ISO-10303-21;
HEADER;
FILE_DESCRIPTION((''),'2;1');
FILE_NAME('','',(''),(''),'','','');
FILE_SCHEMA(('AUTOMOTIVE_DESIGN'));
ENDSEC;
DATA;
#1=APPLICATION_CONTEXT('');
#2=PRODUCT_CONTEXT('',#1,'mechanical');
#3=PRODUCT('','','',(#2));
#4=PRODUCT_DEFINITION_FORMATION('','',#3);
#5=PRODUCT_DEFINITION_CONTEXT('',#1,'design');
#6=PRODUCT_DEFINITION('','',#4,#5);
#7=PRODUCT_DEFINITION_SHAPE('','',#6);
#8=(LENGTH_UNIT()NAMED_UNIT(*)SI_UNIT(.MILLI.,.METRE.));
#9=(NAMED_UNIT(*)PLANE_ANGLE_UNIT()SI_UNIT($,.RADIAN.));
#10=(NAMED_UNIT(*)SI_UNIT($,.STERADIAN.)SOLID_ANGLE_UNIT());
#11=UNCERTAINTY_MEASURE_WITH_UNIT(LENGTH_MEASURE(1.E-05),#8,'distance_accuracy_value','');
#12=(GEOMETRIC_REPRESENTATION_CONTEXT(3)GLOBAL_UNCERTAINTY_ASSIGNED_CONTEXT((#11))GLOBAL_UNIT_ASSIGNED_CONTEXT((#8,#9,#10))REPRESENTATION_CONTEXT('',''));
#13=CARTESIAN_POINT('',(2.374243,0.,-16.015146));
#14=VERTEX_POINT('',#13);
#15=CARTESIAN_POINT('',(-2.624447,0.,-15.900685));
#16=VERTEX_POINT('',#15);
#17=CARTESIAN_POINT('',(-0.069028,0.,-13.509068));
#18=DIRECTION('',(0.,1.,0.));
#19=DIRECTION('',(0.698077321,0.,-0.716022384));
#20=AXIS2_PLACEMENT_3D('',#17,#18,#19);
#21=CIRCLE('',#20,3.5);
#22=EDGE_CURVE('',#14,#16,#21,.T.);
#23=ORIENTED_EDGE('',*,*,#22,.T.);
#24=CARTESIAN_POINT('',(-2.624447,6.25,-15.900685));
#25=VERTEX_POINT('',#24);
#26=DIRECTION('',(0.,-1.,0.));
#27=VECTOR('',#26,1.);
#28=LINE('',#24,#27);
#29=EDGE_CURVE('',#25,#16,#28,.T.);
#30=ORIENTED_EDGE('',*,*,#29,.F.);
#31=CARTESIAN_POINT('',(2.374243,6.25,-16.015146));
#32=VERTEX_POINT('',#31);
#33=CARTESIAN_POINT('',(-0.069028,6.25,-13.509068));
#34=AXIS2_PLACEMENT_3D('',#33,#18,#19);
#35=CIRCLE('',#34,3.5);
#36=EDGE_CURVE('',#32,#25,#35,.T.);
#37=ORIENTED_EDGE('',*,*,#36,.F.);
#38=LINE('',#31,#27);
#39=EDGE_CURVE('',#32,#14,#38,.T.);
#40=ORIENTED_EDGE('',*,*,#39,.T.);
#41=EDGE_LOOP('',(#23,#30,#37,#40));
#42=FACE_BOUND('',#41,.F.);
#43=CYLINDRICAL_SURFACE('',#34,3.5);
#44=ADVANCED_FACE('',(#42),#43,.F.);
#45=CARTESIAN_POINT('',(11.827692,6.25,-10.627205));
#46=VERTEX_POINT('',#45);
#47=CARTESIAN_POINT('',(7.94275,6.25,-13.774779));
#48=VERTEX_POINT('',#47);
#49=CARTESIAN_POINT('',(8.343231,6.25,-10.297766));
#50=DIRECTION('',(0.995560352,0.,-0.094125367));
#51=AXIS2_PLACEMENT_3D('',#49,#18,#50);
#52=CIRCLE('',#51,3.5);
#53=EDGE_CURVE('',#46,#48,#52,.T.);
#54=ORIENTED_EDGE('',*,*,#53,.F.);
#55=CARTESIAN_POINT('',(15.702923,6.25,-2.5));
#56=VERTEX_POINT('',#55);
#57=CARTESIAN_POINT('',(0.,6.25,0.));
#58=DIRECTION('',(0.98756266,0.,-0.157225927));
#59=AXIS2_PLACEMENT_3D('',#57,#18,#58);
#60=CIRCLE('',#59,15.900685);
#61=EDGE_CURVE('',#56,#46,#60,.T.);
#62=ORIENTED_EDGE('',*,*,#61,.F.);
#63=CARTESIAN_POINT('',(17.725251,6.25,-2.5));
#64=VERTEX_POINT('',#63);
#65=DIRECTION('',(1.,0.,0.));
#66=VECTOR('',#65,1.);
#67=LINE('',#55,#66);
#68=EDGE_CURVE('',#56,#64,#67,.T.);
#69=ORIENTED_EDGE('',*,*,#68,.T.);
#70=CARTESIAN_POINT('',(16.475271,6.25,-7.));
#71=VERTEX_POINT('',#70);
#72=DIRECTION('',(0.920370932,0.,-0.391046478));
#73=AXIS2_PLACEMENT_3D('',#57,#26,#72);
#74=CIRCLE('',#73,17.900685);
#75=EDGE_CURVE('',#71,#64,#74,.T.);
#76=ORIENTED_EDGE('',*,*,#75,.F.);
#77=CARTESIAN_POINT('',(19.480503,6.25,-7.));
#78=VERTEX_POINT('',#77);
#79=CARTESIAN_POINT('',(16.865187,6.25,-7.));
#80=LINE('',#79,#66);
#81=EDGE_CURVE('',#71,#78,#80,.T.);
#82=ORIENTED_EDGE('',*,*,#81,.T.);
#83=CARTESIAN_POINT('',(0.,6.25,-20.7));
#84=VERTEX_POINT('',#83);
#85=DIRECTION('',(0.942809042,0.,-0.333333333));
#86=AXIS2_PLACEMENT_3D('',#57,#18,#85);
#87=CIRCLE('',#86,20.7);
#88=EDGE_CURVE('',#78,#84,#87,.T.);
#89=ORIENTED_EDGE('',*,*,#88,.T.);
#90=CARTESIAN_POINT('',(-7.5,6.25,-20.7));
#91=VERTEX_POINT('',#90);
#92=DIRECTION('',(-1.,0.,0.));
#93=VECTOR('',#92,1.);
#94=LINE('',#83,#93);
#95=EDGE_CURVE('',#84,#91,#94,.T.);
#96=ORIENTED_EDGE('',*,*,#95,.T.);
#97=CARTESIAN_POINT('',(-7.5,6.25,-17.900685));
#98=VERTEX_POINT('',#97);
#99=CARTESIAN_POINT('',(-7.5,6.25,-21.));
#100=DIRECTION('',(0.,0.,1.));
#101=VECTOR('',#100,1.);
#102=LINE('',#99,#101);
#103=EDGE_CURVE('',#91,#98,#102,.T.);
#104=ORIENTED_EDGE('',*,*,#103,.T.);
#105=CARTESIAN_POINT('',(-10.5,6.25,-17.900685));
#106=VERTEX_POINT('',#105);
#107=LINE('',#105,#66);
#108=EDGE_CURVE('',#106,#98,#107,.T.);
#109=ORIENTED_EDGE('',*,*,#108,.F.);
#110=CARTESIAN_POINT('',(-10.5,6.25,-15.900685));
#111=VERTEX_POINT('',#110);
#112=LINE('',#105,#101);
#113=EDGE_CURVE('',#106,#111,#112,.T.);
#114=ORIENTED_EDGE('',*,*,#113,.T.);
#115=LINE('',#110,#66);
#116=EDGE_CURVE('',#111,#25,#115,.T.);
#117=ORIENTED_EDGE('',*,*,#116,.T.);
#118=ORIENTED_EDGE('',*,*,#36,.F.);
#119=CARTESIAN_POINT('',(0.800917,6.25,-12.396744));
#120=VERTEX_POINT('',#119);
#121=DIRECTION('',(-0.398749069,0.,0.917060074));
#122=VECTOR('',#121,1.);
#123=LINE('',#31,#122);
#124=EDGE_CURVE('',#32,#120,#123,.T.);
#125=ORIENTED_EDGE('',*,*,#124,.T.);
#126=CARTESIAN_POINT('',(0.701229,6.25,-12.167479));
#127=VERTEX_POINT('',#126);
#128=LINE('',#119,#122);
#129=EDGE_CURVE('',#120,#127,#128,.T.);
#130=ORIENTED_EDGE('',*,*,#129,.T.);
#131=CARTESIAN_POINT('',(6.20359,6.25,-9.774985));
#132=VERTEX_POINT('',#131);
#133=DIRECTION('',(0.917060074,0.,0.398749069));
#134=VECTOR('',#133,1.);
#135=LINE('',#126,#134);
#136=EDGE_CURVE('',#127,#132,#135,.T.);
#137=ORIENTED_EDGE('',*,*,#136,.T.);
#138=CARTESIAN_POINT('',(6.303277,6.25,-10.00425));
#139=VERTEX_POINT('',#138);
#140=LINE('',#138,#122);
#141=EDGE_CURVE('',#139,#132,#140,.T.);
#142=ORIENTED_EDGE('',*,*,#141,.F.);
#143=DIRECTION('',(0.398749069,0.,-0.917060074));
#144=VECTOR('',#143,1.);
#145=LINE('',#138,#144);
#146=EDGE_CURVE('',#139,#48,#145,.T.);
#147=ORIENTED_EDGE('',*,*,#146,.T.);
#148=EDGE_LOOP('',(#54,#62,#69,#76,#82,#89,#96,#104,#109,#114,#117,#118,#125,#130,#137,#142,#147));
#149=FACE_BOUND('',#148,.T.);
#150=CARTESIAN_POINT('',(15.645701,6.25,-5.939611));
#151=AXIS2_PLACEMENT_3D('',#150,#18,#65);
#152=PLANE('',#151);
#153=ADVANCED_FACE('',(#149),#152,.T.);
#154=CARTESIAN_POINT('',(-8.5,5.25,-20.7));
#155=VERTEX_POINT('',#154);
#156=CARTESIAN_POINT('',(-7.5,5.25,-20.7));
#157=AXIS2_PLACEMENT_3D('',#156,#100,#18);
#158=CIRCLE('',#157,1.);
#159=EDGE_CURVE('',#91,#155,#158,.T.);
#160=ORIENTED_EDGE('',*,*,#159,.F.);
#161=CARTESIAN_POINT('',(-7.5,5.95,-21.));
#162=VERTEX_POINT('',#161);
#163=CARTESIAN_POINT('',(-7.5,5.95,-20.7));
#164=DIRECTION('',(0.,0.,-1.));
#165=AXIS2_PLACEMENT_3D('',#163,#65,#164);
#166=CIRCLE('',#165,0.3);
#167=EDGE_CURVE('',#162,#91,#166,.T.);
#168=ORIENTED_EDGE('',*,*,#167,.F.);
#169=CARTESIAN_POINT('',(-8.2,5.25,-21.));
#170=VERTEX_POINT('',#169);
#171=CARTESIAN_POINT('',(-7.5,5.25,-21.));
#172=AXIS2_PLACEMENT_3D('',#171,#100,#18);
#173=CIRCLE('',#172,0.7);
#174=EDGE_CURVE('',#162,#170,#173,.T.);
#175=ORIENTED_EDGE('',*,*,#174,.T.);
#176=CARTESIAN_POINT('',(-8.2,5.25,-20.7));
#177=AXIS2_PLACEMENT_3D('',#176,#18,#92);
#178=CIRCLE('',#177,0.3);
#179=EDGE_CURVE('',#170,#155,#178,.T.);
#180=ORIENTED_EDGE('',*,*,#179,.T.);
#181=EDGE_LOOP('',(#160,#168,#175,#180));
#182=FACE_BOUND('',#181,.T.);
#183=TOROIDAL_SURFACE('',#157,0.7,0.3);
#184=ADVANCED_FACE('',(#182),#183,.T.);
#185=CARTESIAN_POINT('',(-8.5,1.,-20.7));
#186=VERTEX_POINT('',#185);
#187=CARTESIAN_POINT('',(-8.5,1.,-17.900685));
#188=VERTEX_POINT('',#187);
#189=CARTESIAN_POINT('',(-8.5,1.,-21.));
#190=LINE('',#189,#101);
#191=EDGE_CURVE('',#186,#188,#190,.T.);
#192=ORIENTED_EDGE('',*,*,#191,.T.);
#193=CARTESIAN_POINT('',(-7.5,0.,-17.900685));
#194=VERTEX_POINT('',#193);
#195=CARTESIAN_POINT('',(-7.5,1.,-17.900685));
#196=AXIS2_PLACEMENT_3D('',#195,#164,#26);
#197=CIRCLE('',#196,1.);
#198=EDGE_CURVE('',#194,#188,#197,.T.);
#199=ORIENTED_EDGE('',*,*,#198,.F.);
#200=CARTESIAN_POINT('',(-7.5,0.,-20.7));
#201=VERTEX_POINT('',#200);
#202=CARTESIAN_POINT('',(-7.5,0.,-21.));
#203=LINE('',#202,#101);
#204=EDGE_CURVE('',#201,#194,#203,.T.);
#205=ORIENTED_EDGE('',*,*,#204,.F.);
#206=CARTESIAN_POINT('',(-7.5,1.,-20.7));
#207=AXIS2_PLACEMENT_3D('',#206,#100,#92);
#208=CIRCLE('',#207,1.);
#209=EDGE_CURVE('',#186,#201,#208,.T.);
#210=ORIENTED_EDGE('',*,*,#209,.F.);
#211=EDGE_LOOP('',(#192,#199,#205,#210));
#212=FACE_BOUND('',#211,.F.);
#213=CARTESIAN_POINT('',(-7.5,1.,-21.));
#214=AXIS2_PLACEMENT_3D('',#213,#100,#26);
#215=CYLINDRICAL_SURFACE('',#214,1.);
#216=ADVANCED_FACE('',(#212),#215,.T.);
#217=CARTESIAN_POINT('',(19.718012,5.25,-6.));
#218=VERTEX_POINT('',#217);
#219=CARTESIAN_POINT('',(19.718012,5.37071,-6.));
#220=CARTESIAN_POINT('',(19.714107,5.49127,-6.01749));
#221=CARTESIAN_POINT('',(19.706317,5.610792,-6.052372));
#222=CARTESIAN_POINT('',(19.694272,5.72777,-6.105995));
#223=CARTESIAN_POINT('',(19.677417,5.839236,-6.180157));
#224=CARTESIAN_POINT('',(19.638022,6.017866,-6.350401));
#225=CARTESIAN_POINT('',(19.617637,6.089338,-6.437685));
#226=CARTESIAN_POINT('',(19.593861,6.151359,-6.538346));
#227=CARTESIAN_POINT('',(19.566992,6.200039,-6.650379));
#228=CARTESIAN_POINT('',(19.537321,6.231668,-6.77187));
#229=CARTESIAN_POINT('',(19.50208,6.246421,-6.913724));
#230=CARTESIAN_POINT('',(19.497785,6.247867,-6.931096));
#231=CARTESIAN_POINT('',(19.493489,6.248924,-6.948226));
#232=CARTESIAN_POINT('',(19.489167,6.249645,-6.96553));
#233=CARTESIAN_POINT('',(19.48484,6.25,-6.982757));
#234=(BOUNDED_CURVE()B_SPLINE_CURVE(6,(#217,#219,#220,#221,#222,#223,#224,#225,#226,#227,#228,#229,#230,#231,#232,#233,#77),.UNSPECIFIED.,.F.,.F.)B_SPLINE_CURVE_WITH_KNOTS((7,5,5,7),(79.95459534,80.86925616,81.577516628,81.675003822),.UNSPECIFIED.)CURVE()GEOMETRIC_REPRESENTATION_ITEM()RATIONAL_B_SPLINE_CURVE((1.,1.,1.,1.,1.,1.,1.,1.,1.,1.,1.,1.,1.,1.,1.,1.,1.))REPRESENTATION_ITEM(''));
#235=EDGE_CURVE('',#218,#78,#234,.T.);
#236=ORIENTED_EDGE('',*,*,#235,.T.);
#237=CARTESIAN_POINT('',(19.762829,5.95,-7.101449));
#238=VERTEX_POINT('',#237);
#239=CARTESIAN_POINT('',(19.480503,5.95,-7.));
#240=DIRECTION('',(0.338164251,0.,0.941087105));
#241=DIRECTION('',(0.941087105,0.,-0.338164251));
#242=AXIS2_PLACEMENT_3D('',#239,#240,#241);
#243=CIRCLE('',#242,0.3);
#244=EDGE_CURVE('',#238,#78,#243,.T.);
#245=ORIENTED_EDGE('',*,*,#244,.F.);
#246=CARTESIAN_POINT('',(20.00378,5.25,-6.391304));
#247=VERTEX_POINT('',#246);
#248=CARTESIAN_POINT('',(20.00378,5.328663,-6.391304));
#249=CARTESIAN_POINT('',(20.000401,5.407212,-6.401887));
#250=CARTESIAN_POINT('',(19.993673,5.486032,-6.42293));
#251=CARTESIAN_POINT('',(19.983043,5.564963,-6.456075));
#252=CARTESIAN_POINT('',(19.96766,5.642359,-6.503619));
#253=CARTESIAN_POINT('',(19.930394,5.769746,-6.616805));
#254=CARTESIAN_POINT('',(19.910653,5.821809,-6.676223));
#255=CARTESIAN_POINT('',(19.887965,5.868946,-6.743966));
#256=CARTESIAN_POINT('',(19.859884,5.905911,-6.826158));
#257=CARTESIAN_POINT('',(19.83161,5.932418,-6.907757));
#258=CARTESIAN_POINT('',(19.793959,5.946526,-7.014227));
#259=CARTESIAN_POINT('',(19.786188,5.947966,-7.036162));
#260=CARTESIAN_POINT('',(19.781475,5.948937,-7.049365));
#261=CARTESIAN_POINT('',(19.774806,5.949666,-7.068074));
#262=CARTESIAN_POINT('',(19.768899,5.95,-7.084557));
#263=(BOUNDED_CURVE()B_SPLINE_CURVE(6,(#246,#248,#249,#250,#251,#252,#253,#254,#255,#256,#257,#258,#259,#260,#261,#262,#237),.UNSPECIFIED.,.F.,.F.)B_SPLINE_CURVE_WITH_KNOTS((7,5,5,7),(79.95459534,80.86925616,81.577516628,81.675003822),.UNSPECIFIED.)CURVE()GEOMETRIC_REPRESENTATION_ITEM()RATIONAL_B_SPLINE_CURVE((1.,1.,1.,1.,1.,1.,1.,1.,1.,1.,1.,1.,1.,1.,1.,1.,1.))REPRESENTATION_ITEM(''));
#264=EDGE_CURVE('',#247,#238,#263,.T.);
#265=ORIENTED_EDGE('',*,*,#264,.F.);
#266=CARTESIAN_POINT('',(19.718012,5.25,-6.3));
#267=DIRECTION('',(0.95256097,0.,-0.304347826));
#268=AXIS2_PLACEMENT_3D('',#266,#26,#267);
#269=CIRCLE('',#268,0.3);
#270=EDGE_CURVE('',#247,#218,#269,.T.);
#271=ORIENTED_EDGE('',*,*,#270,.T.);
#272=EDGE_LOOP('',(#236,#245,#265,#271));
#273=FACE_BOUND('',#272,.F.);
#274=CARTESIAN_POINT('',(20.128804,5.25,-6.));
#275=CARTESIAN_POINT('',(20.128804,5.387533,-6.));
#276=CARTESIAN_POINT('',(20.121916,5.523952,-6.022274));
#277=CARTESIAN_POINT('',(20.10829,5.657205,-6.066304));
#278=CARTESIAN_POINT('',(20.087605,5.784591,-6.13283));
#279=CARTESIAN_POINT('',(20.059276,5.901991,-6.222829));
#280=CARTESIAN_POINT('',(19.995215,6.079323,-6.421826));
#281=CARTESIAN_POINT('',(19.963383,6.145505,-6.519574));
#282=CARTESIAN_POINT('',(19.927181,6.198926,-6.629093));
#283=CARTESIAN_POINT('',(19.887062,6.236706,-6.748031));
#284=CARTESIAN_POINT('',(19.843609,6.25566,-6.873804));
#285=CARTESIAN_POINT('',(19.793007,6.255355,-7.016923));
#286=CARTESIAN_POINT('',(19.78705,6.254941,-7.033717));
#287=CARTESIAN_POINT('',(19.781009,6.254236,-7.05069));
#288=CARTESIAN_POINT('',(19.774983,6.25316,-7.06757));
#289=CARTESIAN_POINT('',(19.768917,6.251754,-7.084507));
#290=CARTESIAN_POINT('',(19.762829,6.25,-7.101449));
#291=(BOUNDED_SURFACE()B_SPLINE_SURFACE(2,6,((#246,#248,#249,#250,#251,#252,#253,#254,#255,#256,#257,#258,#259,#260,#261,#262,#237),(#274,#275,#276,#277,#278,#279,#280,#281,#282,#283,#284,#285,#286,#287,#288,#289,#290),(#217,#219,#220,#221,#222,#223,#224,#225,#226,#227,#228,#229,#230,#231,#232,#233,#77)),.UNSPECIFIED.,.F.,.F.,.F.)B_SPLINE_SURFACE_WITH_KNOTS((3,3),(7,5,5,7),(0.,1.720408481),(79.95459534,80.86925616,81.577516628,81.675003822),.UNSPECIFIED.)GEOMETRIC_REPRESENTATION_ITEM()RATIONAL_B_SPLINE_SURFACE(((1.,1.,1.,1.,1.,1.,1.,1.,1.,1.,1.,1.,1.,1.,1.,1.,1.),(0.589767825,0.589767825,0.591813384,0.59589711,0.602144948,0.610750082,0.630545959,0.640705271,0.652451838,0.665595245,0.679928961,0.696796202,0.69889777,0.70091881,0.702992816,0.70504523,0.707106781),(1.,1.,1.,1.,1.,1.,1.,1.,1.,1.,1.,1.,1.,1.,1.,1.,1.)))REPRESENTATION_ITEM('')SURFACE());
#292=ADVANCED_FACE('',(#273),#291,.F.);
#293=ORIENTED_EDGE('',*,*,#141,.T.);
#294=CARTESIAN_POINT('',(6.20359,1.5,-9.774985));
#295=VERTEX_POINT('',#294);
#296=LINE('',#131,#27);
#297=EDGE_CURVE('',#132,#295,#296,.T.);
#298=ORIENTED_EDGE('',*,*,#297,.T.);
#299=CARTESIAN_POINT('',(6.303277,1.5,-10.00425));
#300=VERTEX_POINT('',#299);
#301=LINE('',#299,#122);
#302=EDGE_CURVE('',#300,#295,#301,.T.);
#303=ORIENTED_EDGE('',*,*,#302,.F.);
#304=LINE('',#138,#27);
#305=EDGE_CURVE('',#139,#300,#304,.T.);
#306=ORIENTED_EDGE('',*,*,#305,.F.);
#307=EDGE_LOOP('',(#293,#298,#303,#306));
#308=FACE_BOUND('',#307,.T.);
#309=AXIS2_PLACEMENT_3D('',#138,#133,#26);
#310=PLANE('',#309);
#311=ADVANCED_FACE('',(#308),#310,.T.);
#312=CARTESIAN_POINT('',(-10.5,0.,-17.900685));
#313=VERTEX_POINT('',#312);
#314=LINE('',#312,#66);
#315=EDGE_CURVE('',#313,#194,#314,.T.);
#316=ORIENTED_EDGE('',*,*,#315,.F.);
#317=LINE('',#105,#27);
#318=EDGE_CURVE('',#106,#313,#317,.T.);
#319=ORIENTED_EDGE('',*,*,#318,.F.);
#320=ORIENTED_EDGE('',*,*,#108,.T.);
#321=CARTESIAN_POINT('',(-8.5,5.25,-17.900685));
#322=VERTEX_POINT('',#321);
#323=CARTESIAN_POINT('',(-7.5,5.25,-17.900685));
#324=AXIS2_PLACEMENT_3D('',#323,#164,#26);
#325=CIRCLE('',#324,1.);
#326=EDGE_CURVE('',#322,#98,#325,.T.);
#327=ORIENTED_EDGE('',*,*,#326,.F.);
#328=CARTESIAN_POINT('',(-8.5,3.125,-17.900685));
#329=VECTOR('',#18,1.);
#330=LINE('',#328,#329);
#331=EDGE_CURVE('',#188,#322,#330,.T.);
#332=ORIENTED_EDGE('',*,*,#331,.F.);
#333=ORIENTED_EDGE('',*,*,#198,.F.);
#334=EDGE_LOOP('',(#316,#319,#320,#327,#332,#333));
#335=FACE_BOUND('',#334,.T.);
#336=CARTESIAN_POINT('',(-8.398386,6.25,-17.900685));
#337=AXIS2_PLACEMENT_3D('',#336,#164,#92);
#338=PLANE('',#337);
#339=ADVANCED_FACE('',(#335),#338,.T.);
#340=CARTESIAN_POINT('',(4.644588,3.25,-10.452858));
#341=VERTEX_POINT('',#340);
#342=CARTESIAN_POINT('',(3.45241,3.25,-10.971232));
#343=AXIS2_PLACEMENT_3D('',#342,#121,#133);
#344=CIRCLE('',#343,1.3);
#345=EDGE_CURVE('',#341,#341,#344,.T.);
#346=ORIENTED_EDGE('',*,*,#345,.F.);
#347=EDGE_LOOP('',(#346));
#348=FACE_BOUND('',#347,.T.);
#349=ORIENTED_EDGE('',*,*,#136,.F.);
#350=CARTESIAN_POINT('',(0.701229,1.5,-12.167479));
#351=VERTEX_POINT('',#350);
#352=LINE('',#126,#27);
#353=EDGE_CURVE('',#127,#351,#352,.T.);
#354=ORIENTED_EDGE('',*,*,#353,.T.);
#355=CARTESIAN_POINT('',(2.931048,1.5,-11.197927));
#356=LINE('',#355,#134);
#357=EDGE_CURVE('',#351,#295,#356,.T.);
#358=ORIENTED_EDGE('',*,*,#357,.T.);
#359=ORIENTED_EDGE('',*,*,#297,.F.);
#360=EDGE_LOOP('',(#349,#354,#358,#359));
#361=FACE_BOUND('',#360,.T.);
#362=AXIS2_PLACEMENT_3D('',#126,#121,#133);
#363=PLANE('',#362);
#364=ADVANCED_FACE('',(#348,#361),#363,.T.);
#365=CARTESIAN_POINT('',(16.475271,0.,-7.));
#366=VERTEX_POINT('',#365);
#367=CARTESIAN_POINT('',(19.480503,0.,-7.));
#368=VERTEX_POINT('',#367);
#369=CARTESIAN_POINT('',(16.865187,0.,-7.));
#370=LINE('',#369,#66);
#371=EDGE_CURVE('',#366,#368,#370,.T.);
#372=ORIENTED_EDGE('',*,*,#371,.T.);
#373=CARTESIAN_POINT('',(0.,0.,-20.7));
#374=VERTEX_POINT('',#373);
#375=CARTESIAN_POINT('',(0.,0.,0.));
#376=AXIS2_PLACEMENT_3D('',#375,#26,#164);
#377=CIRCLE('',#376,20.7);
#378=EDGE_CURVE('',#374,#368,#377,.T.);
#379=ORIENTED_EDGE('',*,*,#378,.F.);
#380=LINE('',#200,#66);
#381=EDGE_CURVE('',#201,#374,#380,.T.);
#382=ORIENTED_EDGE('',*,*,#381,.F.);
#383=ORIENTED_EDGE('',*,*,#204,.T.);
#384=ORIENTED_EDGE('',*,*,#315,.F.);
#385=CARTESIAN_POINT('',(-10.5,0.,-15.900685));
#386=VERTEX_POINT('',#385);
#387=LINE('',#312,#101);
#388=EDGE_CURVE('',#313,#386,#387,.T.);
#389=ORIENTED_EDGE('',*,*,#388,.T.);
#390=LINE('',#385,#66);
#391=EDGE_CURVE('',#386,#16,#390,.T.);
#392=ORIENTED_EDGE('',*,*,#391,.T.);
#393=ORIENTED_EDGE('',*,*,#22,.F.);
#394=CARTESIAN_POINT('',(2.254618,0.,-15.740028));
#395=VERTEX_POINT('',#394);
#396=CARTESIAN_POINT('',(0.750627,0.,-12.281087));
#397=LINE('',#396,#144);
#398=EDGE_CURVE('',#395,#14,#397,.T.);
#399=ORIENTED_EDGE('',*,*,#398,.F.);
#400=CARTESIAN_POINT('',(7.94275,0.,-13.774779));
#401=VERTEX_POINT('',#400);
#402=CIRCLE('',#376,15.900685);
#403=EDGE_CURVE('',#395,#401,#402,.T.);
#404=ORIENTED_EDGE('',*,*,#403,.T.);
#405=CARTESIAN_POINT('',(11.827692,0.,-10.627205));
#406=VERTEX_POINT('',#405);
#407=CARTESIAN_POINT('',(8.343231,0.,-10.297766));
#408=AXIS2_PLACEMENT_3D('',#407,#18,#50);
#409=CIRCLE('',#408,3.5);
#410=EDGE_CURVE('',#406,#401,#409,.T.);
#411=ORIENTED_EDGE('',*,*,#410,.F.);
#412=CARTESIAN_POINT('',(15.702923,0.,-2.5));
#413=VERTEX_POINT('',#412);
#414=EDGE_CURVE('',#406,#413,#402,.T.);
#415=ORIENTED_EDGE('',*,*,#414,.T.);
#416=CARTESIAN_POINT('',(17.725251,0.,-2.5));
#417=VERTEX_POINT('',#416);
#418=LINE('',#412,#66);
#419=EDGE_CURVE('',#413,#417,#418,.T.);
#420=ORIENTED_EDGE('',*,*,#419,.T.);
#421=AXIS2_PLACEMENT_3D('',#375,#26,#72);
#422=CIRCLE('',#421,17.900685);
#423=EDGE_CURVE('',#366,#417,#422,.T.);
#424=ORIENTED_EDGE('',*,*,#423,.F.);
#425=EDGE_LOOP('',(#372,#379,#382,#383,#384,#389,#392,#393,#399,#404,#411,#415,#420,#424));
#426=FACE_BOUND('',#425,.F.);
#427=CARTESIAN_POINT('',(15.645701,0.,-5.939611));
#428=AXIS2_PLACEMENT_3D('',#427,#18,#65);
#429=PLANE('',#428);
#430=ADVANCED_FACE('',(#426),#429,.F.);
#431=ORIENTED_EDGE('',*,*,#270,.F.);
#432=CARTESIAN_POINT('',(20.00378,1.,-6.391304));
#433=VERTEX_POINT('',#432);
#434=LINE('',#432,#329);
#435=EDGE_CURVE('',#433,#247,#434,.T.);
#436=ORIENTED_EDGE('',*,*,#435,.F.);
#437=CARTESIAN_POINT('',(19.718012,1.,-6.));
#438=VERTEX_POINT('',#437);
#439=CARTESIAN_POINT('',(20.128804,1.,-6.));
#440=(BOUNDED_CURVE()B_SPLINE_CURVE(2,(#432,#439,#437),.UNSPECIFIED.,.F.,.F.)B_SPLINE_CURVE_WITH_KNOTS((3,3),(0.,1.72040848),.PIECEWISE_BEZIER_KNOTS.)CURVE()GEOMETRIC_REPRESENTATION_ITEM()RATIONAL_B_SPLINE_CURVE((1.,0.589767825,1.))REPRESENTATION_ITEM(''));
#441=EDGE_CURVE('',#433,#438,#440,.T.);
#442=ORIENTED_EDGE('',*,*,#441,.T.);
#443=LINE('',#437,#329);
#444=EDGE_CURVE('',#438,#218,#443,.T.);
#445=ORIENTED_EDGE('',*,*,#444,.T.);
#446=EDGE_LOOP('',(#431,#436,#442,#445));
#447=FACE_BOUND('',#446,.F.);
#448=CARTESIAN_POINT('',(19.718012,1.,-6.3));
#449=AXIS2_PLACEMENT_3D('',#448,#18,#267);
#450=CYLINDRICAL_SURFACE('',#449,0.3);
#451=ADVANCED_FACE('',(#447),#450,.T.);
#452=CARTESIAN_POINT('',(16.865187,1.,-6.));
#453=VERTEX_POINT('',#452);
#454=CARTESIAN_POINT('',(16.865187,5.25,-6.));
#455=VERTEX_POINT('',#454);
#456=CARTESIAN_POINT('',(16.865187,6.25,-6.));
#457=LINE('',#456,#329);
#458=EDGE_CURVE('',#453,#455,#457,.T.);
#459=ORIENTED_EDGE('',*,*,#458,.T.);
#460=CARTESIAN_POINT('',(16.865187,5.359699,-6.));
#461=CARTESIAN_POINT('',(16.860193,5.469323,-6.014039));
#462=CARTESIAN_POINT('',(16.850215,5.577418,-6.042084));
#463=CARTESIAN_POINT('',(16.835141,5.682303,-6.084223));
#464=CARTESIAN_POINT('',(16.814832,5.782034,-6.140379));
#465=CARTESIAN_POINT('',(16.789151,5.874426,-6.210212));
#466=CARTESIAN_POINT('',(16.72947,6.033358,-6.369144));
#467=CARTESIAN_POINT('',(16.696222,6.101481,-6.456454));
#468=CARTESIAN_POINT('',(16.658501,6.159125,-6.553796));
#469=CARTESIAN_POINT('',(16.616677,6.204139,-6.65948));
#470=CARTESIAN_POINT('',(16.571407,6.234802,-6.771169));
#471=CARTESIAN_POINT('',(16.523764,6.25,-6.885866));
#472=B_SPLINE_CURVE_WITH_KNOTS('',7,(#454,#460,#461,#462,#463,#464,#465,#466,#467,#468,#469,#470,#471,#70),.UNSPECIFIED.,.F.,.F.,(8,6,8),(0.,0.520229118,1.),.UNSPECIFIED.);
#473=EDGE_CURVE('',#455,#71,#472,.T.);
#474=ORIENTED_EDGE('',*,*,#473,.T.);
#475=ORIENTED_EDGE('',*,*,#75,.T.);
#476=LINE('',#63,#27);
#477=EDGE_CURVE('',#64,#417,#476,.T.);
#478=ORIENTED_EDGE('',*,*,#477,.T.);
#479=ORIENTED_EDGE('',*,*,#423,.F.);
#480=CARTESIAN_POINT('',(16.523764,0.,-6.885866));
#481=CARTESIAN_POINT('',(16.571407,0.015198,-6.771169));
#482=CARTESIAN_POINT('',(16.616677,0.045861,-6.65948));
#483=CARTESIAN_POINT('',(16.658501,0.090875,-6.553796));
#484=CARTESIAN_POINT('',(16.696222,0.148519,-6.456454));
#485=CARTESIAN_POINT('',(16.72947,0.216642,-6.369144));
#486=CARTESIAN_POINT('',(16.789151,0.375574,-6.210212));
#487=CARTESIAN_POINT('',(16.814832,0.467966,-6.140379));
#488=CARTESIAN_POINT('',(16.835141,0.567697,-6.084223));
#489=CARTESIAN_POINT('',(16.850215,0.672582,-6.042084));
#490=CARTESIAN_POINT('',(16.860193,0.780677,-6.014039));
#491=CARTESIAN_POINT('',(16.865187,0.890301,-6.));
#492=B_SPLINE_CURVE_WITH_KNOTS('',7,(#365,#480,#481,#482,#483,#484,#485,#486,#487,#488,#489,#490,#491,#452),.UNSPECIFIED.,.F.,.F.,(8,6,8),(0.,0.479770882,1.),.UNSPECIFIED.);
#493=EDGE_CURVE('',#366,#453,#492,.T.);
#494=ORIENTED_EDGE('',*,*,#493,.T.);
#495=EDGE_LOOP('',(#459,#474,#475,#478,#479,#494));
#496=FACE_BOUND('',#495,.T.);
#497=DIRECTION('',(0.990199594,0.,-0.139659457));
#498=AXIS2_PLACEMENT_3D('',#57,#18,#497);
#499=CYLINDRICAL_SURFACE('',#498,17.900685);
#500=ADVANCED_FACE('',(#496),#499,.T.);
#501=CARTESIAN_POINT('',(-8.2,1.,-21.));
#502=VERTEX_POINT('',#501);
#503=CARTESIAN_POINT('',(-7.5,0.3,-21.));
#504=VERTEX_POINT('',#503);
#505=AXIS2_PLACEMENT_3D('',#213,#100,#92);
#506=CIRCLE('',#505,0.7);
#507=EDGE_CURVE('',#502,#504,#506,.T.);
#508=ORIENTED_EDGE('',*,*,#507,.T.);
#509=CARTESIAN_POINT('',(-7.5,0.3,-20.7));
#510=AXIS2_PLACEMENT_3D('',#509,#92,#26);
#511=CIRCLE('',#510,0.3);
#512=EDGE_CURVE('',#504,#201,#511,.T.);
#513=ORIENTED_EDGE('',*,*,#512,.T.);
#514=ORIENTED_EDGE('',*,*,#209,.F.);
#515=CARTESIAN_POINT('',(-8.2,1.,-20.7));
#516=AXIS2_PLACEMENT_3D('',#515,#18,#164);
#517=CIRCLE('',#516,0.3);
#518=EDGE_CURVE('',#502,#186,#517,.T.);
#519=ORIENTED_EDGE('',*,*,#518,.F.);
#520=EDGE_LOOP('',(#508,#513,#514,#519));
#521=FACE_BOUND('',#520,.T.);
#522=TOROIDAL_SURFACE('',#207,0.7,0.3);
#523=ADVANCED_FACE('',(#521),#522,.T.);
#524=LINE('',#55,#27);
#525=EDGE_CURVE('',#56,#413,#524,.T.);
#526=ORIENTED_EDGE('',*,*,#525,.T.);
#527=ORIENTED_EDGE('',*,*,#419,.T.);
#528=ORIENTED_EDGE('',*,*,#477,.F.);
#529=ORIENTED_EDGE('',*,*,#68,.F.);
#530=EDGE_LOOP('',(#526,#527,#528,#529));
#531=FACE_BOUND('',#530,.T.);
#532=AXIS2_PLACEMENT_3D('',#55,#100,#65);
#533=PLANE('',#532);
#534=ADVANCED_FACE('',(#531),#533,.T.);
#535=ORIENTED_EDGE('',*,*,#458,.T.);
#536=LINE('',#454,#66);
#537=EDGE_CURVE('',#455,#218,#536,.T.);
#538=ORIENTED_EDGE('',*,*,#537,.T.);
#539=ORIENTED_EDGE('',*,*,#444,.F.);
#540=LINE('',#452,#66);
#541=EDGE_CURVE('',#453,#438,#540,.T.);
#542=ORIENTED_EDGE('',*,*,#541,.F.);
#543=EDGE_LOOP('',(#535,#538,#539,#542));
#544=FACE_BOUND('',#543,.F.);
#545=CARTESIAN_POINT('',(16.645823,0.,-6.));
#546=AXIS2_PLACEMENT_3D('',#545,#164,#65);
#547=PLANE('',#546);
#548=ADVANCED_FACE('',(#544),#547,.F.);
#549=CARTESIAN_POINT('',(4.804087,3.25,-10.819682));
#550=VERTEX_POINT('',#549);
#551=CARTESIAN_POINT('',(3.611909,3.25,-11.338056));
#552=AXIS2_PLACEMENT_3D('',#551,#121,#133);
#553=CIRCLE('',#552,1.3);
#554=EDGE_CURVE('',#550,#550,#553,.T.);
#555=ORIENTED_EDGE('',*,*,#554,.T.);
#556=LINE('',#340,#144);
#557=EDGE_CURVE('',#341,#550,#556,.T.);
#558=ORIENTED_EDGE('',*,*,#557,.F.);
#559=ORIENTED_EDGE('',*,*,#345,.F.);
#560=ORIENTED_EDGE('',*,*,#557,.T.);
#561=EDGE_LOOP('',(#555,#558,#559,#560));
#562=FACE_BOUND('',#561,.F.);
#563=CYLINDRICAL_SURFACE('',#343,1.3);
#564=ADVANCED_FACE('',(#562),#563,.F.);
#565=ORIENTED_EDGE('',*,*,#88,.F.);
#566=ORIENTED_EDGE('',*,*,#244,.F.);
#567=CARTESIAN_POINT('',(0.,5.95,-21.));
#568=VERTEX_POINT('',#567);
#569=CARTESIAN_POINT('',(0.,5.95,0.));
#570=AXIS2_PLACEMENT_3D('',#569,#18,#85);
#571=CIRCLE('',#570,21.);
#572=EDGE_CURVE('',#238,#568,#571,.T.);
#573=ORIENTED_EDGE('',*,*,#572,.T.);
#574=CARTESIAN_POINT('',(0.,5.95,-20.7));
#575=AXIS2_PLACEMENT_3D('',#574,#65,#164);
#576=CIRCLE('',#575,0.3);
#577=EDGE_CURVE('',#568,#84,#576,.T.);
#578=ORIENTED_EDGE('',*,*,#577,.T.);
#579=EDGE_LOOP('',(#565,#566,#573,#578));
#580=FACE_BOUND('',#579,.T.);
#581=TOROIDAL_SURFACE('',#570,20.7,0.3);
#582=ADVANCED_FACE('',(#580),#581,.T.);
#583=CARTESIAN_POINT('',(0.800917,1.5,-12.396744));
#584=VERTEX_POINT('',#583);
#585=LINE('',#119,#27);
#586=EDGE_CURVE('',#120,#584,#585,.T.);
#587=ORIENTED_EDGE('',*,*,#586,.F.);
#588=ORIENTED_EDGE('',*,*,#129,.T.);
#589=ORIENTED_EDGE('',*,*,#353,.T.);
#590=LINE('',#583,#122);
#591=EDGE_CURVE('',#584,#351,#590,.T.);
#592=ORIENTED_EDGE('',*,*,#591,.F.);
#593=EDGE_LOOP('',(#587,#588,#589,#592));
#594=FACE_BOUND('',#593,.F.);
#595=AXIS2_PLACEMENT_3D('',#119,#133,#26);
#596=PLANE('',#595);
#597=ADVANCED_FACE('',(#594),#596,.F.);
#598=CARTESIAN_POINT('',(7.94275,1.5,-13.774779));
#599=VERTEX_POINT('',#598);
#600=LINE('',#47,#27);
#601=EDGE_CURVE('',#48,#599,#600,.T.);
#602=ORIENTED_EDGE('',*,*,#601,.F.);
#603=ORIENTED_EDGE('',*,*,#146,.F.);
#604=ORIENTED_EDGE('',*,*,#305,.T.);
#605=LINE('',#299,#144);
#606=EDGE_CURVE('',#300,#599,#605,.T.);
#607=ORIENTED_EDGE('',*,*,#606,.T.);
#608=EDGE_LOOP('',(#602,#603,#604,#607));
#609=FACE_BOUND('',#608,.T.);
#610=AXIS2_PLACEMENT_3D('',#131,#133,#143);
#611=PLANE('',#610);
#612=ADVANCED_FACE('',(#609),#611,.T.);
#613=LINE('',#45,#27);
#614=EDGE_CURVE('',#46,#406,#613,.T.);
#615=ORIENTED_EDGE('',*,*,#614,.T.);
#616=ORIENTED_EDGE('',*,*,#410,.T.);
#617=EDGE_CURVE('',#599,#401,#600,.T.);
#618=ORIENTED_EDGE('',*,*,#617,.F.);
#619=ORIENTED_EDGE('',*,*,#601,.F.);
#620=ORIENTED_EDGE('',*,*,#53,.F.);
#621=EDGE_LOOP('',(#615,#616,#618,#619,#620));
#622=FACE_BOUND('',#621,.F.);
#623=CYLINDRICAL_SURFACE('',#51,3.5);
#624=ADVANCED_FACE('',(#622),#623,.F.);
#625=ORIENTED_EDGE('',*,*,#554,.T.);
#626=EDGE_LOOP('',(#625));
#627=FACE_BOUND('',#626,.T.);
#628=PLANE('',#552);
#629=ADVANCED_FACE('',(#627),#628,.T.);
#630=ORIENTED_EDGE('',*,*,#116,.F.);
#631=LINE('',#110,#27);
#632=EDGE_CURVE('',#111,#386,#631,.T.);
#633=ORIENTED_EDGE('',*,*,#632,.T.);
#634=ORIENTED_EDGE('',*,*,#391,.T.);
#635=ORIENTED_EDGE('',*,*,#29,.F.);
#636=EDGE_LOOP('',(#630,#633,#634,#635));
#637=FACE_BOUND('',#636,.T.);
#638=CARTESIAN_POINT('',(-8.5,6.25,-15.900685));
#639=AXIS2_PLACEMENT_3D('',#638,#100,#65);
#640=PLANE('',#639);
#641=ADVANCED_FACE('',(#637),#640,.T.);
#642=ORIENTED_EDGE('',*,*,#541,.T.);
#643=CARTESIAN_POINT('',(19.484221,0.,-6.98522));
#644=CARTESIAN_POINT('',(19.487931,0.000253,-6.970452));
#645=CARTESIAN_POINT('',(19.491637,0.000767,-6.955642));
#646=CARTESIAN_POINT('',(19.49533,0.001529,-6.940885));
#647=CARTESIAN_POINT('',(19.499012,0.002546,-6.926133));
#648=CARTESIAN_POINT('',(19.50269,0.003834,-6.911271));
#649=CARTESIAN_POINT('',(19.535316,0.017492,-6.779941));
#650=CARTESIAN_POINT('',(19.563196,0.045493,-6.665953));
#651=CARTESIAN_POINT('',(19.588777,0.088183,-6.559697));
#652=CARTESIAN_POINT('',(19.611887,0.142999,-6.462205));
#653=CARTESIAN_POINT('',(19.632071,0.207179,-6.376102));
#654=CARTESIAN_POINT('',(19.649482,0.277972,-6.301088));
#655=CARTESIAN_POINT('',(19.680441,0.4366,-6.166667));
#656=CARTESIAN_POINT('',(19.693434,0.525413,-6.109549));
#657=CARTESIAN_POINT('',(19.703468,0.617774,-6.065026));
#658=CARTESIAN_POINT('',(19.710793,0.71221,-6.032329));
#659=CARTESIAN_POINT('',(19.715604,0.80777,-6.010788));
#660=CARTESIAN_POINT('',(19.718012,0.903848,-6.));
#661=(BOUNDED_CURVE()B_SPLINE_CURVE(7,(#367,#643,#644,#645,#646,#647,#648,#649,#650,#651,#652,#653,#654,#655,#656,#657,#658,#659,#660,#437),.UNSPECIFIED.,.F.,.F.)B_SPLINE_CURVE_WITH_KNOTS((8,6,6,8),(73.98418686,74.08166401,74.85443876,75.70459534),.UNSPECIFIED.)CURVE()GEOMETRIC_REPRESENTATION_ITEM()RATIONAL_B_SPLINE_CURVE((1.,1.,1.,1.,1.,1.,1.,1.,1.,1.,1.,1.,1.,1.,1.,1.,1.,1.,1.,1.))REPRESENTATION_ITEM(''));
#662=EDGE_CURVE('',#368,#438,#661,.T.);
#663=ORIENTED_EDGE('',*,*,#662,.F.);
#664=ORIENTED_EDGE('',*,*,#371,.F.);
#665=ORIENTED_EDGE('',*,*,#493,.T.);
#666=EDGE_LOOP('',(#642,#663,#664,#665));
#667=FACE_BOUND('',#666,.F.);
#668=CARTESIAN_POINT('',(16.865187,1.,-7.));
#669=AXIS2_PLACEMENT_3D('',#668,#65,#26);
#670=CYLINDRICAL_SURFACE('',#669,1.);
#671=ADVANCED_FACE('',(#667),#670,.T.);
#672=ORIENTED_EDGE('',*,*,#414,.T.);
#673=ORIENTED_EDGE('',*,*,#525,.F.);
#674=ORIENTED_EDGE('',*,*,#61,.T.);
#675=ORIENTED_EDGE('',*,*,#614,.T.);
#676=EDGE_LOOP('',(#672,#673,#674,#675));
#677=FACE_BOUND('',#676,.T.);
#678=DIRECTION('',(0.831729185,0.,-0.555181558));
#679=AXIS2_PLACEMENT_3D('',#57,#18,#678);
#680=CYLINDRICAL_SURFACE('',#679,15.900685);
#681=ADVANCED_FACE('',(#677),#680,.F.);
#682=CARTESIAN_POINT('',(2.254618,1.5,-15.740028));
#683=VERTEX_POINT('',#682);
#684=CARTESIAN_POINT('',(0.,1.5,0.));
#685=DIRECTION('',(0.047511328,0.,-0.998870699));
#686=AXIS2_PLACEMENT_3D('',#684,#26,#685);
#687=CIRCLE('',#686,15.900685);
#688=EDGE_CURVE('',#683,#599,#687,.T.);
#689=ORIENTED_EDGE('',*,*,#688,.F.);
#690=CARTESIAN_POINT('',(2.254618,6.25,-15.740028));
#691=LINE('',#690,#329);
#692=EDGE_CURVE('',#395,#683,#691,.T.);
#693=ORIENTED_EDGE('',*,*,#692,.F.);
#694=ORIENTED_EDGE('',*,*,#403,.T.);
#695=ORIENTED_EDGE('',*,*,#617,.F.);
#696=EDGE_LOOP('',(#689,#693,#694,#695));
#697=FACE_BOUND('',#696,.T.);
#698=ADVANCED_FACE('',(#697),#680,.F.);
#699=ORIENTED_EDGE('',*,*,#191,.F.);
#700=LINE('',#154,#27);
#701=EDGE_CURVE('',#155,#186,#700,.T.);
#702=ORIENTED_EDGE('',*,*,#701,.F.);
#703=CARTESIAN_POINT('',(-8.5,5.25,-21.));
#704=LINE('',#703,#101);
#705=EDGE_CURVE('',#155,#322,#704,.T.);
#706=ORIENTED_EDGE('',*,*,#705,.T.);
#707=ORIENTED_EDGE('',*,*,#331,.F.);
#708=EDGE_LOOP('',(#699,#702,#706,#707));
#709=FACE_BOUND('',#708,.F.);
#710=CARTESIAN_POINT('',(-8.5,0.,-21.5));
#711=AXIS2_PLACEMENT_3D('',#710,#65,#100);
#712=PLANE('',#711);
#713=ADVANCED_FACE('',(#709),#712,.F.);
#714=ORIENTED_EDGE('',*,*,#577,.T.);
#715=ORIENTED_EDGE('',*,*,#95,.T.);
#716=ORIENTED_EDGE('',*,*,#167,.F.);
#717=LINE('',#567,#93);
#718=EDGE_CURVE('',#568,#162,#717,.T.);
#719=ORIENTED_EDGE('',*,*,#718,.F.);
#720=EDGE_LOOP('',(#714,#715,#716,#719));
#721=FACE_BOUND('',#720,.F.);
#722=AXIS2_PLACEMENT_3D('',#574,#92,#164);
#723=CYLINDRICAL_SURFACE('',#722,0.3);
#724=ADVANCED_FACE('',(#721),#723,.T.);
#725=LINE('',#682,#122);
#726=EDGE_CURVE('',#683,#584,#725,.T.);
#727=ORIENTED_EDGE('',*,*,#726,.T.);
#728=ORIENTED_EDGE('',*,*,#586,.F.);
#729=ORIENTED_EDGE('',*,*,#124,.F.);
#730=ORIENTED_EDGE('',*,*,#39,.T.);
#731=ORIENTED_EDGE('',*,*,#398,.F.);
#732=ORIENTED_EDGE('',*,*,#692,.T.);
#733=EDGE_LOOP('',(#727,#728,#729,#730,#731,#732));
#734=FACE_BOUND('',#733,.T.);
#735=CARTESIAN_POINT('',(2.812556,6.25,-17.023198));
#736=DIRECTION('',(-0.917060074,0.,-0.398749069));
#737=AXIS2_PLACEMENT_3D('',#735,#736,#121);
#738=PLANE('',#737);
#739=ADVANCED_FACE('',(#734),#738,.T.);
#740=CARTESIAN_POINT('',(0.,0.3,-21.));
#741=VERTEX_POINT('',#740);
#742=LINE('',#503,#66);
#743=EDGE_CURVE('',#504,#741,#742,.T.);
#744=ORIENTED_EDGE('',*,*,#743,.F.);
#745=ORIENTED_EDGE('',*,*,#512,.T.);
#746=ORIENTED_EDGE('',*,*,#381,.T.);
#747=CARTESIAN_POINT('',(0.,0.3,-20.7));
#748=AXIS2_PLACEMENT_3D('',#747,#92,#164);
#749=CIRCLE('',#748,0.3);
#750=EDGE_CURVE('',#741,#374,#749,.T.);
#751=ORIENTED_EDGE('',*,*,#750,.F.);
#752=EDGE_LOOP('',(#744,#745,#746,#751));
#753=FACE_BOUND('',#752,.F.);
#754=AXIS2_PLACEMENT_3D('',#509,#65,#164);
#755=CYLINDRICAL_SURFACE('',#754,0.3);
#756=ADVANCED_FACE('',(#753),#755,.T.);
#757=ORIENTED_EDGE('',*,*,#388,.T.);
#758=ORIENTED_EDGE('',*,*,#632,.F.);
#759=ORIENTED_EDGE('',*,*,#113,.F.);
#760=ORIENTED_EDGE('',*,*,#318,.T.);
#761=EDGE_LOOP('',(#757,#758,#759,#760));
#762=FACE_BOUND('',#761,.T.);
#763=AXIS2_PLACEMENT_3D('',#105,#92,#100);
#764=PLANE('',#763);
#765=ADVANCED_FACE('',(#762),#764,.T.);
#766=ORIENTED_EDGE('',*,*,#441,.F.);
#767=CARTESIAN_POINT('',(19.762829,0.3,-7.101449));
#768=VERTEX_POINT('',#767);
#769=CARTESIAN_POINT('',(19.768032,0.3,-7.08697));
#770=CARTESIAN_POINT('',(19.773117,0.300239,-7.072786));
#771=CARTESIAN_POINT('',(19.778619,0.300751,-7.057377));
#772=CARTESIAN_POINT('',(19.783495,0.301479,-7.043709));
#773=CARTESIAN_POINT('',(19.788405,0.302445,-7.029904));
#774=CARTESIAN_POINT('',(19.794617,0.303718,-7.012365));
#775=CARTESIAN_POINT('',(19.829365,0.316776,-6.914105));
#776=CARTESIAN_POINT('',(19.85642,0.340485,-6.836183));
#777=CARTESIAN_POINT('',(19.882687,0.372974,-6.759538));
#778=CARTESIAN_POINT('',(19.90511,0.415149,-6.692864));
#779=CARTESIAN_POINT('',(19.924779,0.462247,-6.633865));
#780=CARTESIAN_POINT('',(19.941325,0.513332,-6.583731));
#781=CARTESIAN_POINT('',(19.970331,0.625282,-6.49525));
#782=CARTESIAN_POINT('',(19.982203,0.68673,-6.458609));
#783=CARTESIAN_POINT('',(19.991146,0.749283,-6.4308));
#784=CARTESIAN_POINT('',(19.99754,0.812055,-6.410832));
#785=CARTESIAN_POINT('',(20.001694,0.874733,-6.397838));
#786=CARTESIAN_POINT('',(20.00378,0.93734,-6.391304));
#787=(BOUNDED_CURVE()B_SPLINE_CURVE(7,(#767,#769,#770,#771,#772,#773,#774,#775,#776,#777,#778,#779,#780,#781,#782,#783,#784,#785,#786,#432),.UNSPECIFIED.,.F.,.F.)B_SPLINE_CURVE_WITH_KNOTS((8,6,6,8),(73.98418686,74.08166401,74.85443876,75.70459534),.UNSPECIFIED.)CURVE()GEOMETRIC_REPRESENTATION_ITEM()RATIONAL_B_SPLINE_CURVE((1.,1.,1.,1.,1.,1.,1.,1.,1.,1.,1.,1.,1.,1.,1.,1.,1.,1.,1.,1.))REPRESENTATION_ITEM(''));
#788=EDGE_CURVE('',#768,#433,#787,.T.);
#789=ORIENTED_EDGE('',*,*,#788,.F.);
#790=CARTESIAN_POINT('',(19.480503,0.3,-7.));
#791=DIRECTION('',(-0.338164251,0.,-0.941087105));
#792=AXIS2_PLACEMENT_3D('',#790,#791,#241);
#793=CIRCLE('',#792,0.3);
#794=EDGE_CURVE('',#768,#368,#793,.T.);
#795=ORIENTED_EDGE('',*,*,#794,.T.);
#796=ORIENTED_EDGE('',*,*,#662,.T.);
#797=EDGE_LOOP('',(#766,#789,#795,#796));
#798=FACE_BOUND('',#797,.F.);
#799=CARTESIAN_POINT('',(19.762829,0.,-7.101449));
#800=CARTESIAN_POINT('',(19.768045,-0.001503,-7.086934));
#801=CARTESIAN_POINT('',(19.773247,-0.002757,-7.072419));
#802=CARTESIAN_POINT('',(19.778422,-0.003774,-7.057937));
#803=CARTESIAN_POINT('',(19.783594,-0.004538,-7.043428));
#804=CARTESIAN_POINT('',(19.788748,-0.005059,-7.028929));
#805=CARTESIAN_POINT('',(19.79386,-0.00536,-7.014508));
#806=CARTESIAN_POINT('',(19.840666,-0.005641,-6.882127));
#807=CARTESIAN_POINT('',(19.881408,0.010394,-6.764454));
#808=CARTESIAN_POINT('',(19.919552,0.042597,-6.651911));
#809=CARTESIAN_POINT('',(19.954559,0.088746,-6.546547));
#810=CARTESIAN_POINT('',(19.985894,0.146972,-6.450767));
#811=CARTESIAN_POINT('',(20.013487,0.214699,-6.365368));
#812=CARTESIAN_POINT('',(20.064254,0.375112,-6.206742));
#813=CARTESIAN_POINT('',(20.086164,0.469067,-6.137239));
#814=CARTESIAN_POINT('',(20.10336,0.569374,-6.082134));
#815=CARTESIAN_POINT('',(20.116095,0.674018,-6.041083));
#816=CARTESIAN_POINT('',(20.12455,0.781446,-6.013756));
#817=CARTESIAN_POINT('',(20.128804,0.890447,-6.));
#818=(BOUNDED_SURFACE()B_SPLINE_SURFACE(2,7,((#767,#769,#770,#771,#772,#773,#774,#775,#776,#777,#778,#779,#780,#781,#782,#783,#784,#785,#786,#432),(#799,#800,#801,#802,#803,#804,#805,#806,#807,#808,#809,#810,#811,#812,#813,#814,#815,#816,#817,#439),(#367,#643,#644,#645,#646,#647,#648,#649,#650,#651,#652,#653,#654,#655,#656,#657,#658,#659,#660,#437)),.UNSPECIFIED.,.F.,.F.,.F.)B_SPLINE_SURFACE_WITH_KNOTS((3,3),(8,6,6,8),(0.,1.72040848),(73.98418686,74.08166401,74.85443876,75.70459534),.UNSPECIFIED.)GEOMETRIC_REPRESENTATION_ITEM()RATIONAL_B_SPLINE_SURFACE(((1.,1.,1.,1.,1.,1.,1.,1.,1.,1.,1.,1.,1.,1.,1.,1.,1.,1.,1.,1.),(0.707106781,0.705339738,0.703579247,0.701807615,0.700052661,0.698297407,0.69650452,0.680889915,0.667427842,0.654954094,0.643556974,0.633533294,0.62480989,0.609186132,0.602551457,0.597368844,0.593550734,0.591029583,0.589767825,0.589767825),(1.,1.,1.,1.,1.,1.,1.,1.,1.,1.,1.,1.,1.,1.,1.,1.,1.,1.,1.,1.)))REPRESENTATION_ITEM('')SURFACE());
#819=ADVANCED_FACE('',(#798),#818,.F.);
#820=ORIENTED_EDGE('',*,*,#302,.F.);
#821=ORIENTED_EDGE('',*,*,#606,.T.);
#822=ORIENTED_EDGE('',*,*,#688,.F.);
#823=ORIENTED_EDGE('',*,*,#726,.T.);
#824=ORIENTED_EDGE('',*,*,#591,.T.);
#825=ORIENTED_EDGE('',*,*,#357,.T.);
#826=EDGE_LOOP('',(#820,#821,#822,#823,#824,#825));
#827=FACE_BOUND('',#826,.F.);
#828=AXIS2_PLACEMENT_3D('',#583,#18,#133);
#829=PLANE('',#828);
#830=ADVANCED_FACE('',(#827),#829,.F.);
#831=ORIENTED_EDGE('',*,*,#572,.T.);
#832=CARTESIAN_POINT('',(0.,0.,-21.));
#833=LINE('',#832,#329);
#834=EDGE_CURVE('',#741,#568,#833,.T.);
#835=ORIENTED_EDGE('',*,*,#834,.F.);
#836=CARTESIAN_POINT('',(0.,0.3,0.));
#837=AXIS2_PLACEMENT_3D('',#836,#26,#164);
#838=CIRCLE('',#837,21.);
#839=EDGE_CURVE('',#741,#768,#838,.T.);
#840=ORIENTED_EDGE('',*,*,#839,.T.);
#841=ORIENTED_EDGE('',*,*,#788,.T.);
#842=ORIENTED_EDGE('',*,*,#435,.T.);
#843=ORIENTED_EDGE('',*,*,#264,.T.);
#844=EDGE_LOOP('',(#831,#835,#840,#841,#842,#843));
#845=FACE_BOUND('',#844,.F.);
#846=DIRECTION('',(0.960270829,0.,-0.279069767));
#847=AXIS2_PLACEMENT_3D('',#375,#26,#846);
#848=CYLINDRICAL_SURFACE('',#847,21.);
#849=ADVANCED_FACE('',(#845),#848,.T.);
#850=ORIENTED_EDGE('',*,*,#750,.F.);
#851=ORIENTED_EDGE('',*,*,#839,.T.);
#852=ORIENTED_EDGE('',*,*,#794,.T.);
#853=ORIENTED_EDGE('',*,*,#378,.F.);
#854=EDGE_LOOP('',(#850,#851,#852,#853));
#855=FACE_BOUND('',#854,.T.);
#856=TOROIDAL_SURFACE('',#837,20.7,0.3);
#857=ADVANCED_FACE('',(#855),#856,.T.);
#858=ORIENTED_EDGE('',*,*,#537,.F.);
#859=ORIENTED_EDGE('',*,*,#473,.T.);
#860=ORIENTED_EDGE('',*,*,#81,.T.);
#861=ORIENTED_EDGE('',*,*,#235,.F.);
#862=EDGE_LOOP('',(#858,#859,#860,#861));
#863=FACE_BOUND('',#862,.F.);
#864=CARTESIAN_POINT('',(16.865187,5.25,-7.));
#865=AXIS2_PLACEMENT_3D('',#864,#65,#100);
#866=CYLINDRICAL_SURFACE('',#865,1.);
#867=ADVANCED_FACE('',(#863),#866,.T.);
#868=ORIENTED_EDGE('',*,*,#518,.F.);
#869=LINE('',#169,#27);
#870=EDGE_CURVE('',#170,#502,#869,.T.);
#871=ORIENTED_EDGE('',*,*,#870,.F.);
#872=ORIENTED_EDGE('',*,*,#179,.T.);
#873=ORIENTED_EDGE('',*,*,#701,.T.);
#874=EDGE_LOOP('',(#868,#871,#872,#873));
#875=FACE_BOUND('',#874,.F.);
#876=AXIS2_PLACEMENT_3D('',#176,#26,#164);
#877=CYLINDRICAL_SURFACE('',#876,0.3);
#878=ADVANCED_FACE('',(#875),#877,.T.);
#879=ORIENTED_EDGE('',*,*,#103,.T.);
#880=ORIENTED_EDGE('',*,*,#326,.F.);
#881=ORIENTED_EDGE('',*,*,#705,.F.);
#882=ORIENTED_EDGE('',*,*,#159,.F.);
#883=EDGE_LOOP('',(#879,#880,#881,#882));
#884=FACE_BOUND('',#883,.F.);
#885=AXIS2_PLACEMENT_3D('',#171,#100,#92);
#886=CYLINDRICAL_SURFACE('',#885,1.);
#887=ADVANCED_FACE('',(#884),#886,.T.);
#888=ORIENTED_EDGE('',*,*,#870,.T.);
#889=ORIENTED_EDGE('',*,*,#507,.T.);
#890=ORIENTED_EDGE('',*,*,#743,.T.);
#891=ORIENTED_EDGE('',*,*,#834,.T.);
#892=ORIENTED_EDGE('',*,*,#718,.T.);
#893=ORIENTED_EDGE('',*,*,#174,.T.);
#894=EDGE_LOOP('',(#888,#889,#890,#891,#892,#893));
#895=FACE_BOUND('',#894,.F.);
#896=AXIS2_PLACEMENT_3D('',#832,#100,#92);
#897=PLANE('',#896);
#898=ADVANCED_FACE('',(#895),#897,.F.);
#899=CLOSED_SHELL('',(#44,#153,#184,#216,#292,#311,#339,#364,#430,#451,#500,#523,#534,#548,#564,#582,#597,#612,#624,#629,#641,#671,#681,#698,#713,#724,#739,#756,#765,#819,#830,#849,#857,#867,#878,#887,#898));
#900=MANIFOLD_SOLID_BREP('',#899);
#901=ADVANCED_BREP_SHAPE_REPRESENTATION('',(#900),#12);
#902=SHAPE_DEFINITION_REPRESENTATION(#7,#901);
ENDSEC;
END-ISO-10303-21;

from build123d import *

# Parameters (mm, degrees)
BOSS_EXTRUDE1_DEPTH = 6.25
CUT_EXTRUDE1_DEPTH  = 10
BOSS_EXTRUDE2_DEPTH = 6.25
CUT_EXTRUDE2_START  = -1.5
CUT_EXTRUDE2_DEPTH  = 1.5
MOVE_FACE1_BY       = 0.25
SKETCH5_R           = 1.3
CUT_EXTRUDE3_DEPTH  = 0.4
BOSS_EXTRUDE3_DEPTH = 6.25
MOVE_FACE2_BY       = 0.5
MOVE_FACE2_2_BY     = 0.5
CUT_EXTRUDE4_DEPTH  = 13
CUT_EXTRUDE5_START  = -1.5
CUT_EXTRUDE5_DEPTH  = 1.5
BOSS_EXTRUDE4_DEPTH = 6.25
CUT_EXTRUDE6_DEPTH  = 9.000000000000002
FILLET1_R           = 1
FILLET2_R           = 0.3


with BuildPart() as part:
    # Sketch1 → Boss-Extrude1 (new body)
    with BuildSketch(Plane(origin=(0, 0, 0), x_dir=(1, 0, 0), z_dir=(0, 1, 0))):
        with BuildLine():
            Line((-8.500000000000007, 21.49999999999999), (-8.500000000000007, 15.499999999999982))
            Line((-8.500000000000007, 15.499999999999982), (16.645822822062563, 5.999999999999995))
            Line((16.645822822062563, 5.999999999999995), (20.645822822062566, 5.999999999999995))
            ThreePointArc((20.645822822062566, 5.999999999999995), (12.90833064342558, 17.19374886404939), (0, 21.49999999999999))
            Line((0, 21.49999999999999), (-8.500000000000007, 21.49999999999999))
        make_face()
    extrude(amount=BOSS_EXTRUDE1_DEPTH)

    # Sketch2 → Cut-Extrude1 (cut)
    with BuildSketch(Plane(origin=(0, 6.25, 0), x_dir=(1, 0, 0), z_dir=(0, 1, 0))):
        with BuildLine():
            Line((-9.752670250943163, 2.7674418604651105), (-9.752670250943163, 14.499999999999986))
            Line((-9.752670250943163, 14.499999999999986), (8.3e-16, 14.499999999999986))
            ThreePointArc((8.3e-16, 14.499999999999986), (9.22285457500159, 11.188786953390961), (14.233455854041384, 2.7674418604651105))
            Line((14.233455854041384, 2.7674418604651105), (-9.752670250943163, 2.7674418604651105))
        make_face()
    extrude(amount=-CUT_EXTRUDE1_DEPTH, mode=Mode.SUBTRACT)

    # Sketch3 → Boss-Extrude2 (add)
    with BuildSketch(Plane(origin=(0, 6.25, 0), x_dir=(1, 0, 0), z_dir=(0, 1, 0))):
        Polygon((4.469156931645221, 10.801748174518188), (6.3032770804154685, 10.004250036667695), (8.404211615552752, 14.836068669534448), (2.8125557708062745, 17.02319772649103), (0.8009166341047183, 12.396744450219176), (2.6350367828749666, 11.599246312368683), align=None)
    extrude(amount=-BOSS_EXTRUDE2_DEPTH)

    # Sketch4 → Cut-Extrude2 (cut)
    with BuildSketch(Plane.XZ.offset(CUT_EXTRUDE2_START)):
        with BuildLine():
            Line((12.329816757236909, -7.63057132415126), (4.858273185949837, -3.0066464723283906))
            Line((4.858273185949837, -3.0066464723283906), (-2.1755255087838874, -6.757515163827213))
            Line((-2.1755255087838874, -6.757515163827213), (0.39188162426461154, -14.49470347377149))
            ThreePointArc((0.39188162426461154, -14.49470347377149), (7.227688425031692, -12.570223547362334), (12.329816757236909, -7.63057132415126))
        make_face()
    extrude(amount=CUT_EXTRUDE2_DEPTH, mode=Mode.SUBTRACT)

    # Move Face1: a face moved outward by 0.25
    extrude(part.faces().sort_by_distance((3.552096857, 3.875, -11.200497243))[0], amount=MOVE_FACE1_BY, dir=(-0.398749069, 0, 0.917060074))

    # Sketch5 → Cut-Extrude3 (cut)
    with BuildSketch(Plane(origin=(4.560861605165302, 0, -10.489263571615414), x_dir=(0.917060074385124, 0, 0.3987490689252462), z_dir=(-0.3987490689252462, 0, 0.917060074385124))):
        with Locations((-1.20870163918075, 3.2500000000000084)):
            Circle(SKETCH5_R)
    extrude(amount=-CUT_EXTRUDE3_DEPTH, mode=Mode.SUBTRACT)

    # Sketch6 → Boss-Extrude3 (add)
    with BuildSketch(Plane(origin=(0, 6.25, 0), x_dir=(1, 0, 0), z_dir=(0, 1, 0))):
        Polygon((-8.500000000000007, 15.900685410943252), (-8.398385997633637, 15.900685410943252), (-8.398385997633637, 17.900685410943254), (-8.500000000000007, 17.900685410943254), (-10.500000000000009, 17.900685410943254), (-10.500000000000009, 15.900685410943252), align=None)
    extrude(amount=-BOSS_EXTRUDE3_DEPTH)

    # Move Face2: a face moved inward by 0.5
    extrude(part.faces().sort_by_distance((-4.25, 3.125, -21.5))[0], amount=MOVE_FACE2_BY, dir=(0, 0, 1), mode=Mode.SUBTRACT)

    # Move Face2 2: a curved face moved inward by 0.5
    add(Solid.thicken(part.faces().sort_by_distance((12.908330643, 3.125, -17.193748864))[0], -MOVE_FACE2_2_BY), mode=Mode.SUBTRACT)

    # Sketch7 → Cut-Extrude4 (cut)
    with BuildSketch(Plane(origin=(0, 6.25, 0), x_dir=(1, 0, 0), z_dir=(0, 1, 0))):
        with BuildLine():
            Line((-8.500000000000007, 15.900685410943252), (0, 15.900685410943252))
            ThreePointArc((0, 15.900685410943252), (1.1301672935759872, 15.860470309114884), (2.2546178785171396, 15.740028423089157))
            Line((2.2546178785171396, 15.740028423089157), (1.4365096738849472, 13.858508365832973))
            Line((1.4365096738849472, 13.858508365832973), (0.7012293668734065, 12.167479431622894))
            Line((0.7012293668734065, 12.167479431622894), (6.203589813184157, 9.774985018071414))
            Line((6.203589813184157, 9.774985018071414), (7.238188726101288, 12.15439961732261))
            Line((7.238188726101288, 12.15439961732261), (7.94274956604829, 13.774778614149243))
            ThreePointArc((7.94274956604829, 13.774778614149243), (13.653169200208351, 8.150016400490594), (15.89419526397822, 0.45426143168428607))
            Line((15.89419526397822, 0.45426143168428607), (-20.808588691152597, -0.594716444159659))
            Line((-20.808588691152597, -0.594716444159659), (-15.374732718008488, 14.86339738490728))
            Line((-15.374732718008488, 14.86339738490728), (-8.500000000000007, 15.900685410943252))
        make_face()
    extrude(amount=-CUT_EXTRUDE4_DEPTH, mode=Mode.SUBTRACT)

    # Sketch8 → Cut-Extrude5 (cut)
    with BuildSketch(Plane.XZ.offset(CUT_EXTRUDE5_START)):
        with BuildLine():
            Line((14.339308110473954, -6.871392831928589), (1.9043764034639075, -3.0604478341676384))
            Line((1.9043764034639075, -3.0604478341676384), (-4.2629376925202305, -10.324173324993405))
            Line((-4.2629376925202305, -10.324173324993405), (0.7554626751993575, -15.882728754347104))
            ThreePointArc((0.7554626751993575, -15.882728754347104), (8.789998296056245, -13.250197224687337), (14.339308110473954, -6.871392831928589))
        make_face()
    extrude(amount=CUT_EXTRUDE5_DEPTH, mode=Mode.SUBTRACT)

    # Sketch9 → Boss-Extrude4 (add)
    with BuildSketch(Plane(origin=(0, 6.25, 0), x_dir=(1, 0, 0), z_dir=(0, 1, 0))):
        with BuildLine():
            Line((15.70292318448331, 2.500000000000002), (17.725251454235494, 2.500000000000002))
            ThreePointArc((17.725251454235494, 2.500000000000002), (16.78932753436898, 6.209107831207082), (15.086677514257817, 9.634661420966763))
            Line((15.086677514257817, 9.634661420966763), (13.225064123719731, 8.827767297640147))
            ThreePointArc((13.225064123719731, 8.827767297640147), (14.805987713393527, 5.797803408931993), (15.70292318448331, 2.500000000000002))
        make_face()
    extrude(amount=-BOSS_EXTRUDE4_DEPTH)

    # Sketch11 → Cut-Extrude6 (cut)
    with BuildSketch(Plane(origin=(0, 6.25, 0), x_dir=(1, 0, 0), z_dir=(0, 1, 0))):
        with BuildLine():
            Line((7.94274956604829, 13.774778614149243), (11.827692426009557, 10.627205108282226))
            ThreePointArc((11.827692426009557, 10.627205108282226), (10.546532646680365, 13.017226325833846), (7.94274956604829, 13.774778614149243))
        make_face()
        with BuildLine():
            Line((0.7012293668734065, 12.167479431622894), (2.2546178785171413, 15.740028423089157))
            Line((2.2546178785171413, 15.740028423089157), (2.374242599194715, 16.015146445404692))
            ThreePointArc((2.374242599194715, 16.015146445404692), (-0.14915074669056683, 17.00815088772086), (-2.6244470962744906, 15.900685410943252))
            Line((-2.6244470962744906, 15.900685410943252), (0.7012293668734065, 12.167479431622894))
        make_face()
    extrude(amount=-CUT_EXTRUDE6_DEPTH, mode=Mode.SUBTRACT)

    # Fillet1
    fillet1_edges = [part.edges().sort_by_distance(p)[0] for p in [
        (-8.500000000000007, 6.25, -19.45034270547162),
        (18.49489949615255, 0, -5.999999999999995),
        (18.49489949615255, 6.25, -5.999999999999995),
        (-8.500000000000007, 0, -19.45034270547162),
    ]]
    fillet(fillet1_edges, radius=FILLET1_R)

    # Fillet2
    fillet2_edges = [part.edges().sort_by_distance(p)[0] for p in [
        (12.124355652982135, 6.25, -17.146428199482237),
        (-8.500000000000007, 3.1249999999999996, -20.99999999999999),
        (-8.207106781186555, 0.2928932188134522, -20.99999999999999),
        (-8.207106781186555, 5.957106781186548, -20.99999999999999),
        (12.124355652982135, 0, -17.146428199482237),
        (20.124611797498098, 3.125, -5.999999999999995),
        (20.031843616518877, 5.96687308089546, -6.302796311029798),
        (20.03184361651888, 0.2831269191045398, -6.302796311029798),
        (-3.7500000000000036, 0, -20.99999999999999),
        (-3.7500000000000036, 6.25, -20.99999999999999),
    ]]
    fillet(fillet2_edges, radius=FILLET2_R)


solid = part.part
